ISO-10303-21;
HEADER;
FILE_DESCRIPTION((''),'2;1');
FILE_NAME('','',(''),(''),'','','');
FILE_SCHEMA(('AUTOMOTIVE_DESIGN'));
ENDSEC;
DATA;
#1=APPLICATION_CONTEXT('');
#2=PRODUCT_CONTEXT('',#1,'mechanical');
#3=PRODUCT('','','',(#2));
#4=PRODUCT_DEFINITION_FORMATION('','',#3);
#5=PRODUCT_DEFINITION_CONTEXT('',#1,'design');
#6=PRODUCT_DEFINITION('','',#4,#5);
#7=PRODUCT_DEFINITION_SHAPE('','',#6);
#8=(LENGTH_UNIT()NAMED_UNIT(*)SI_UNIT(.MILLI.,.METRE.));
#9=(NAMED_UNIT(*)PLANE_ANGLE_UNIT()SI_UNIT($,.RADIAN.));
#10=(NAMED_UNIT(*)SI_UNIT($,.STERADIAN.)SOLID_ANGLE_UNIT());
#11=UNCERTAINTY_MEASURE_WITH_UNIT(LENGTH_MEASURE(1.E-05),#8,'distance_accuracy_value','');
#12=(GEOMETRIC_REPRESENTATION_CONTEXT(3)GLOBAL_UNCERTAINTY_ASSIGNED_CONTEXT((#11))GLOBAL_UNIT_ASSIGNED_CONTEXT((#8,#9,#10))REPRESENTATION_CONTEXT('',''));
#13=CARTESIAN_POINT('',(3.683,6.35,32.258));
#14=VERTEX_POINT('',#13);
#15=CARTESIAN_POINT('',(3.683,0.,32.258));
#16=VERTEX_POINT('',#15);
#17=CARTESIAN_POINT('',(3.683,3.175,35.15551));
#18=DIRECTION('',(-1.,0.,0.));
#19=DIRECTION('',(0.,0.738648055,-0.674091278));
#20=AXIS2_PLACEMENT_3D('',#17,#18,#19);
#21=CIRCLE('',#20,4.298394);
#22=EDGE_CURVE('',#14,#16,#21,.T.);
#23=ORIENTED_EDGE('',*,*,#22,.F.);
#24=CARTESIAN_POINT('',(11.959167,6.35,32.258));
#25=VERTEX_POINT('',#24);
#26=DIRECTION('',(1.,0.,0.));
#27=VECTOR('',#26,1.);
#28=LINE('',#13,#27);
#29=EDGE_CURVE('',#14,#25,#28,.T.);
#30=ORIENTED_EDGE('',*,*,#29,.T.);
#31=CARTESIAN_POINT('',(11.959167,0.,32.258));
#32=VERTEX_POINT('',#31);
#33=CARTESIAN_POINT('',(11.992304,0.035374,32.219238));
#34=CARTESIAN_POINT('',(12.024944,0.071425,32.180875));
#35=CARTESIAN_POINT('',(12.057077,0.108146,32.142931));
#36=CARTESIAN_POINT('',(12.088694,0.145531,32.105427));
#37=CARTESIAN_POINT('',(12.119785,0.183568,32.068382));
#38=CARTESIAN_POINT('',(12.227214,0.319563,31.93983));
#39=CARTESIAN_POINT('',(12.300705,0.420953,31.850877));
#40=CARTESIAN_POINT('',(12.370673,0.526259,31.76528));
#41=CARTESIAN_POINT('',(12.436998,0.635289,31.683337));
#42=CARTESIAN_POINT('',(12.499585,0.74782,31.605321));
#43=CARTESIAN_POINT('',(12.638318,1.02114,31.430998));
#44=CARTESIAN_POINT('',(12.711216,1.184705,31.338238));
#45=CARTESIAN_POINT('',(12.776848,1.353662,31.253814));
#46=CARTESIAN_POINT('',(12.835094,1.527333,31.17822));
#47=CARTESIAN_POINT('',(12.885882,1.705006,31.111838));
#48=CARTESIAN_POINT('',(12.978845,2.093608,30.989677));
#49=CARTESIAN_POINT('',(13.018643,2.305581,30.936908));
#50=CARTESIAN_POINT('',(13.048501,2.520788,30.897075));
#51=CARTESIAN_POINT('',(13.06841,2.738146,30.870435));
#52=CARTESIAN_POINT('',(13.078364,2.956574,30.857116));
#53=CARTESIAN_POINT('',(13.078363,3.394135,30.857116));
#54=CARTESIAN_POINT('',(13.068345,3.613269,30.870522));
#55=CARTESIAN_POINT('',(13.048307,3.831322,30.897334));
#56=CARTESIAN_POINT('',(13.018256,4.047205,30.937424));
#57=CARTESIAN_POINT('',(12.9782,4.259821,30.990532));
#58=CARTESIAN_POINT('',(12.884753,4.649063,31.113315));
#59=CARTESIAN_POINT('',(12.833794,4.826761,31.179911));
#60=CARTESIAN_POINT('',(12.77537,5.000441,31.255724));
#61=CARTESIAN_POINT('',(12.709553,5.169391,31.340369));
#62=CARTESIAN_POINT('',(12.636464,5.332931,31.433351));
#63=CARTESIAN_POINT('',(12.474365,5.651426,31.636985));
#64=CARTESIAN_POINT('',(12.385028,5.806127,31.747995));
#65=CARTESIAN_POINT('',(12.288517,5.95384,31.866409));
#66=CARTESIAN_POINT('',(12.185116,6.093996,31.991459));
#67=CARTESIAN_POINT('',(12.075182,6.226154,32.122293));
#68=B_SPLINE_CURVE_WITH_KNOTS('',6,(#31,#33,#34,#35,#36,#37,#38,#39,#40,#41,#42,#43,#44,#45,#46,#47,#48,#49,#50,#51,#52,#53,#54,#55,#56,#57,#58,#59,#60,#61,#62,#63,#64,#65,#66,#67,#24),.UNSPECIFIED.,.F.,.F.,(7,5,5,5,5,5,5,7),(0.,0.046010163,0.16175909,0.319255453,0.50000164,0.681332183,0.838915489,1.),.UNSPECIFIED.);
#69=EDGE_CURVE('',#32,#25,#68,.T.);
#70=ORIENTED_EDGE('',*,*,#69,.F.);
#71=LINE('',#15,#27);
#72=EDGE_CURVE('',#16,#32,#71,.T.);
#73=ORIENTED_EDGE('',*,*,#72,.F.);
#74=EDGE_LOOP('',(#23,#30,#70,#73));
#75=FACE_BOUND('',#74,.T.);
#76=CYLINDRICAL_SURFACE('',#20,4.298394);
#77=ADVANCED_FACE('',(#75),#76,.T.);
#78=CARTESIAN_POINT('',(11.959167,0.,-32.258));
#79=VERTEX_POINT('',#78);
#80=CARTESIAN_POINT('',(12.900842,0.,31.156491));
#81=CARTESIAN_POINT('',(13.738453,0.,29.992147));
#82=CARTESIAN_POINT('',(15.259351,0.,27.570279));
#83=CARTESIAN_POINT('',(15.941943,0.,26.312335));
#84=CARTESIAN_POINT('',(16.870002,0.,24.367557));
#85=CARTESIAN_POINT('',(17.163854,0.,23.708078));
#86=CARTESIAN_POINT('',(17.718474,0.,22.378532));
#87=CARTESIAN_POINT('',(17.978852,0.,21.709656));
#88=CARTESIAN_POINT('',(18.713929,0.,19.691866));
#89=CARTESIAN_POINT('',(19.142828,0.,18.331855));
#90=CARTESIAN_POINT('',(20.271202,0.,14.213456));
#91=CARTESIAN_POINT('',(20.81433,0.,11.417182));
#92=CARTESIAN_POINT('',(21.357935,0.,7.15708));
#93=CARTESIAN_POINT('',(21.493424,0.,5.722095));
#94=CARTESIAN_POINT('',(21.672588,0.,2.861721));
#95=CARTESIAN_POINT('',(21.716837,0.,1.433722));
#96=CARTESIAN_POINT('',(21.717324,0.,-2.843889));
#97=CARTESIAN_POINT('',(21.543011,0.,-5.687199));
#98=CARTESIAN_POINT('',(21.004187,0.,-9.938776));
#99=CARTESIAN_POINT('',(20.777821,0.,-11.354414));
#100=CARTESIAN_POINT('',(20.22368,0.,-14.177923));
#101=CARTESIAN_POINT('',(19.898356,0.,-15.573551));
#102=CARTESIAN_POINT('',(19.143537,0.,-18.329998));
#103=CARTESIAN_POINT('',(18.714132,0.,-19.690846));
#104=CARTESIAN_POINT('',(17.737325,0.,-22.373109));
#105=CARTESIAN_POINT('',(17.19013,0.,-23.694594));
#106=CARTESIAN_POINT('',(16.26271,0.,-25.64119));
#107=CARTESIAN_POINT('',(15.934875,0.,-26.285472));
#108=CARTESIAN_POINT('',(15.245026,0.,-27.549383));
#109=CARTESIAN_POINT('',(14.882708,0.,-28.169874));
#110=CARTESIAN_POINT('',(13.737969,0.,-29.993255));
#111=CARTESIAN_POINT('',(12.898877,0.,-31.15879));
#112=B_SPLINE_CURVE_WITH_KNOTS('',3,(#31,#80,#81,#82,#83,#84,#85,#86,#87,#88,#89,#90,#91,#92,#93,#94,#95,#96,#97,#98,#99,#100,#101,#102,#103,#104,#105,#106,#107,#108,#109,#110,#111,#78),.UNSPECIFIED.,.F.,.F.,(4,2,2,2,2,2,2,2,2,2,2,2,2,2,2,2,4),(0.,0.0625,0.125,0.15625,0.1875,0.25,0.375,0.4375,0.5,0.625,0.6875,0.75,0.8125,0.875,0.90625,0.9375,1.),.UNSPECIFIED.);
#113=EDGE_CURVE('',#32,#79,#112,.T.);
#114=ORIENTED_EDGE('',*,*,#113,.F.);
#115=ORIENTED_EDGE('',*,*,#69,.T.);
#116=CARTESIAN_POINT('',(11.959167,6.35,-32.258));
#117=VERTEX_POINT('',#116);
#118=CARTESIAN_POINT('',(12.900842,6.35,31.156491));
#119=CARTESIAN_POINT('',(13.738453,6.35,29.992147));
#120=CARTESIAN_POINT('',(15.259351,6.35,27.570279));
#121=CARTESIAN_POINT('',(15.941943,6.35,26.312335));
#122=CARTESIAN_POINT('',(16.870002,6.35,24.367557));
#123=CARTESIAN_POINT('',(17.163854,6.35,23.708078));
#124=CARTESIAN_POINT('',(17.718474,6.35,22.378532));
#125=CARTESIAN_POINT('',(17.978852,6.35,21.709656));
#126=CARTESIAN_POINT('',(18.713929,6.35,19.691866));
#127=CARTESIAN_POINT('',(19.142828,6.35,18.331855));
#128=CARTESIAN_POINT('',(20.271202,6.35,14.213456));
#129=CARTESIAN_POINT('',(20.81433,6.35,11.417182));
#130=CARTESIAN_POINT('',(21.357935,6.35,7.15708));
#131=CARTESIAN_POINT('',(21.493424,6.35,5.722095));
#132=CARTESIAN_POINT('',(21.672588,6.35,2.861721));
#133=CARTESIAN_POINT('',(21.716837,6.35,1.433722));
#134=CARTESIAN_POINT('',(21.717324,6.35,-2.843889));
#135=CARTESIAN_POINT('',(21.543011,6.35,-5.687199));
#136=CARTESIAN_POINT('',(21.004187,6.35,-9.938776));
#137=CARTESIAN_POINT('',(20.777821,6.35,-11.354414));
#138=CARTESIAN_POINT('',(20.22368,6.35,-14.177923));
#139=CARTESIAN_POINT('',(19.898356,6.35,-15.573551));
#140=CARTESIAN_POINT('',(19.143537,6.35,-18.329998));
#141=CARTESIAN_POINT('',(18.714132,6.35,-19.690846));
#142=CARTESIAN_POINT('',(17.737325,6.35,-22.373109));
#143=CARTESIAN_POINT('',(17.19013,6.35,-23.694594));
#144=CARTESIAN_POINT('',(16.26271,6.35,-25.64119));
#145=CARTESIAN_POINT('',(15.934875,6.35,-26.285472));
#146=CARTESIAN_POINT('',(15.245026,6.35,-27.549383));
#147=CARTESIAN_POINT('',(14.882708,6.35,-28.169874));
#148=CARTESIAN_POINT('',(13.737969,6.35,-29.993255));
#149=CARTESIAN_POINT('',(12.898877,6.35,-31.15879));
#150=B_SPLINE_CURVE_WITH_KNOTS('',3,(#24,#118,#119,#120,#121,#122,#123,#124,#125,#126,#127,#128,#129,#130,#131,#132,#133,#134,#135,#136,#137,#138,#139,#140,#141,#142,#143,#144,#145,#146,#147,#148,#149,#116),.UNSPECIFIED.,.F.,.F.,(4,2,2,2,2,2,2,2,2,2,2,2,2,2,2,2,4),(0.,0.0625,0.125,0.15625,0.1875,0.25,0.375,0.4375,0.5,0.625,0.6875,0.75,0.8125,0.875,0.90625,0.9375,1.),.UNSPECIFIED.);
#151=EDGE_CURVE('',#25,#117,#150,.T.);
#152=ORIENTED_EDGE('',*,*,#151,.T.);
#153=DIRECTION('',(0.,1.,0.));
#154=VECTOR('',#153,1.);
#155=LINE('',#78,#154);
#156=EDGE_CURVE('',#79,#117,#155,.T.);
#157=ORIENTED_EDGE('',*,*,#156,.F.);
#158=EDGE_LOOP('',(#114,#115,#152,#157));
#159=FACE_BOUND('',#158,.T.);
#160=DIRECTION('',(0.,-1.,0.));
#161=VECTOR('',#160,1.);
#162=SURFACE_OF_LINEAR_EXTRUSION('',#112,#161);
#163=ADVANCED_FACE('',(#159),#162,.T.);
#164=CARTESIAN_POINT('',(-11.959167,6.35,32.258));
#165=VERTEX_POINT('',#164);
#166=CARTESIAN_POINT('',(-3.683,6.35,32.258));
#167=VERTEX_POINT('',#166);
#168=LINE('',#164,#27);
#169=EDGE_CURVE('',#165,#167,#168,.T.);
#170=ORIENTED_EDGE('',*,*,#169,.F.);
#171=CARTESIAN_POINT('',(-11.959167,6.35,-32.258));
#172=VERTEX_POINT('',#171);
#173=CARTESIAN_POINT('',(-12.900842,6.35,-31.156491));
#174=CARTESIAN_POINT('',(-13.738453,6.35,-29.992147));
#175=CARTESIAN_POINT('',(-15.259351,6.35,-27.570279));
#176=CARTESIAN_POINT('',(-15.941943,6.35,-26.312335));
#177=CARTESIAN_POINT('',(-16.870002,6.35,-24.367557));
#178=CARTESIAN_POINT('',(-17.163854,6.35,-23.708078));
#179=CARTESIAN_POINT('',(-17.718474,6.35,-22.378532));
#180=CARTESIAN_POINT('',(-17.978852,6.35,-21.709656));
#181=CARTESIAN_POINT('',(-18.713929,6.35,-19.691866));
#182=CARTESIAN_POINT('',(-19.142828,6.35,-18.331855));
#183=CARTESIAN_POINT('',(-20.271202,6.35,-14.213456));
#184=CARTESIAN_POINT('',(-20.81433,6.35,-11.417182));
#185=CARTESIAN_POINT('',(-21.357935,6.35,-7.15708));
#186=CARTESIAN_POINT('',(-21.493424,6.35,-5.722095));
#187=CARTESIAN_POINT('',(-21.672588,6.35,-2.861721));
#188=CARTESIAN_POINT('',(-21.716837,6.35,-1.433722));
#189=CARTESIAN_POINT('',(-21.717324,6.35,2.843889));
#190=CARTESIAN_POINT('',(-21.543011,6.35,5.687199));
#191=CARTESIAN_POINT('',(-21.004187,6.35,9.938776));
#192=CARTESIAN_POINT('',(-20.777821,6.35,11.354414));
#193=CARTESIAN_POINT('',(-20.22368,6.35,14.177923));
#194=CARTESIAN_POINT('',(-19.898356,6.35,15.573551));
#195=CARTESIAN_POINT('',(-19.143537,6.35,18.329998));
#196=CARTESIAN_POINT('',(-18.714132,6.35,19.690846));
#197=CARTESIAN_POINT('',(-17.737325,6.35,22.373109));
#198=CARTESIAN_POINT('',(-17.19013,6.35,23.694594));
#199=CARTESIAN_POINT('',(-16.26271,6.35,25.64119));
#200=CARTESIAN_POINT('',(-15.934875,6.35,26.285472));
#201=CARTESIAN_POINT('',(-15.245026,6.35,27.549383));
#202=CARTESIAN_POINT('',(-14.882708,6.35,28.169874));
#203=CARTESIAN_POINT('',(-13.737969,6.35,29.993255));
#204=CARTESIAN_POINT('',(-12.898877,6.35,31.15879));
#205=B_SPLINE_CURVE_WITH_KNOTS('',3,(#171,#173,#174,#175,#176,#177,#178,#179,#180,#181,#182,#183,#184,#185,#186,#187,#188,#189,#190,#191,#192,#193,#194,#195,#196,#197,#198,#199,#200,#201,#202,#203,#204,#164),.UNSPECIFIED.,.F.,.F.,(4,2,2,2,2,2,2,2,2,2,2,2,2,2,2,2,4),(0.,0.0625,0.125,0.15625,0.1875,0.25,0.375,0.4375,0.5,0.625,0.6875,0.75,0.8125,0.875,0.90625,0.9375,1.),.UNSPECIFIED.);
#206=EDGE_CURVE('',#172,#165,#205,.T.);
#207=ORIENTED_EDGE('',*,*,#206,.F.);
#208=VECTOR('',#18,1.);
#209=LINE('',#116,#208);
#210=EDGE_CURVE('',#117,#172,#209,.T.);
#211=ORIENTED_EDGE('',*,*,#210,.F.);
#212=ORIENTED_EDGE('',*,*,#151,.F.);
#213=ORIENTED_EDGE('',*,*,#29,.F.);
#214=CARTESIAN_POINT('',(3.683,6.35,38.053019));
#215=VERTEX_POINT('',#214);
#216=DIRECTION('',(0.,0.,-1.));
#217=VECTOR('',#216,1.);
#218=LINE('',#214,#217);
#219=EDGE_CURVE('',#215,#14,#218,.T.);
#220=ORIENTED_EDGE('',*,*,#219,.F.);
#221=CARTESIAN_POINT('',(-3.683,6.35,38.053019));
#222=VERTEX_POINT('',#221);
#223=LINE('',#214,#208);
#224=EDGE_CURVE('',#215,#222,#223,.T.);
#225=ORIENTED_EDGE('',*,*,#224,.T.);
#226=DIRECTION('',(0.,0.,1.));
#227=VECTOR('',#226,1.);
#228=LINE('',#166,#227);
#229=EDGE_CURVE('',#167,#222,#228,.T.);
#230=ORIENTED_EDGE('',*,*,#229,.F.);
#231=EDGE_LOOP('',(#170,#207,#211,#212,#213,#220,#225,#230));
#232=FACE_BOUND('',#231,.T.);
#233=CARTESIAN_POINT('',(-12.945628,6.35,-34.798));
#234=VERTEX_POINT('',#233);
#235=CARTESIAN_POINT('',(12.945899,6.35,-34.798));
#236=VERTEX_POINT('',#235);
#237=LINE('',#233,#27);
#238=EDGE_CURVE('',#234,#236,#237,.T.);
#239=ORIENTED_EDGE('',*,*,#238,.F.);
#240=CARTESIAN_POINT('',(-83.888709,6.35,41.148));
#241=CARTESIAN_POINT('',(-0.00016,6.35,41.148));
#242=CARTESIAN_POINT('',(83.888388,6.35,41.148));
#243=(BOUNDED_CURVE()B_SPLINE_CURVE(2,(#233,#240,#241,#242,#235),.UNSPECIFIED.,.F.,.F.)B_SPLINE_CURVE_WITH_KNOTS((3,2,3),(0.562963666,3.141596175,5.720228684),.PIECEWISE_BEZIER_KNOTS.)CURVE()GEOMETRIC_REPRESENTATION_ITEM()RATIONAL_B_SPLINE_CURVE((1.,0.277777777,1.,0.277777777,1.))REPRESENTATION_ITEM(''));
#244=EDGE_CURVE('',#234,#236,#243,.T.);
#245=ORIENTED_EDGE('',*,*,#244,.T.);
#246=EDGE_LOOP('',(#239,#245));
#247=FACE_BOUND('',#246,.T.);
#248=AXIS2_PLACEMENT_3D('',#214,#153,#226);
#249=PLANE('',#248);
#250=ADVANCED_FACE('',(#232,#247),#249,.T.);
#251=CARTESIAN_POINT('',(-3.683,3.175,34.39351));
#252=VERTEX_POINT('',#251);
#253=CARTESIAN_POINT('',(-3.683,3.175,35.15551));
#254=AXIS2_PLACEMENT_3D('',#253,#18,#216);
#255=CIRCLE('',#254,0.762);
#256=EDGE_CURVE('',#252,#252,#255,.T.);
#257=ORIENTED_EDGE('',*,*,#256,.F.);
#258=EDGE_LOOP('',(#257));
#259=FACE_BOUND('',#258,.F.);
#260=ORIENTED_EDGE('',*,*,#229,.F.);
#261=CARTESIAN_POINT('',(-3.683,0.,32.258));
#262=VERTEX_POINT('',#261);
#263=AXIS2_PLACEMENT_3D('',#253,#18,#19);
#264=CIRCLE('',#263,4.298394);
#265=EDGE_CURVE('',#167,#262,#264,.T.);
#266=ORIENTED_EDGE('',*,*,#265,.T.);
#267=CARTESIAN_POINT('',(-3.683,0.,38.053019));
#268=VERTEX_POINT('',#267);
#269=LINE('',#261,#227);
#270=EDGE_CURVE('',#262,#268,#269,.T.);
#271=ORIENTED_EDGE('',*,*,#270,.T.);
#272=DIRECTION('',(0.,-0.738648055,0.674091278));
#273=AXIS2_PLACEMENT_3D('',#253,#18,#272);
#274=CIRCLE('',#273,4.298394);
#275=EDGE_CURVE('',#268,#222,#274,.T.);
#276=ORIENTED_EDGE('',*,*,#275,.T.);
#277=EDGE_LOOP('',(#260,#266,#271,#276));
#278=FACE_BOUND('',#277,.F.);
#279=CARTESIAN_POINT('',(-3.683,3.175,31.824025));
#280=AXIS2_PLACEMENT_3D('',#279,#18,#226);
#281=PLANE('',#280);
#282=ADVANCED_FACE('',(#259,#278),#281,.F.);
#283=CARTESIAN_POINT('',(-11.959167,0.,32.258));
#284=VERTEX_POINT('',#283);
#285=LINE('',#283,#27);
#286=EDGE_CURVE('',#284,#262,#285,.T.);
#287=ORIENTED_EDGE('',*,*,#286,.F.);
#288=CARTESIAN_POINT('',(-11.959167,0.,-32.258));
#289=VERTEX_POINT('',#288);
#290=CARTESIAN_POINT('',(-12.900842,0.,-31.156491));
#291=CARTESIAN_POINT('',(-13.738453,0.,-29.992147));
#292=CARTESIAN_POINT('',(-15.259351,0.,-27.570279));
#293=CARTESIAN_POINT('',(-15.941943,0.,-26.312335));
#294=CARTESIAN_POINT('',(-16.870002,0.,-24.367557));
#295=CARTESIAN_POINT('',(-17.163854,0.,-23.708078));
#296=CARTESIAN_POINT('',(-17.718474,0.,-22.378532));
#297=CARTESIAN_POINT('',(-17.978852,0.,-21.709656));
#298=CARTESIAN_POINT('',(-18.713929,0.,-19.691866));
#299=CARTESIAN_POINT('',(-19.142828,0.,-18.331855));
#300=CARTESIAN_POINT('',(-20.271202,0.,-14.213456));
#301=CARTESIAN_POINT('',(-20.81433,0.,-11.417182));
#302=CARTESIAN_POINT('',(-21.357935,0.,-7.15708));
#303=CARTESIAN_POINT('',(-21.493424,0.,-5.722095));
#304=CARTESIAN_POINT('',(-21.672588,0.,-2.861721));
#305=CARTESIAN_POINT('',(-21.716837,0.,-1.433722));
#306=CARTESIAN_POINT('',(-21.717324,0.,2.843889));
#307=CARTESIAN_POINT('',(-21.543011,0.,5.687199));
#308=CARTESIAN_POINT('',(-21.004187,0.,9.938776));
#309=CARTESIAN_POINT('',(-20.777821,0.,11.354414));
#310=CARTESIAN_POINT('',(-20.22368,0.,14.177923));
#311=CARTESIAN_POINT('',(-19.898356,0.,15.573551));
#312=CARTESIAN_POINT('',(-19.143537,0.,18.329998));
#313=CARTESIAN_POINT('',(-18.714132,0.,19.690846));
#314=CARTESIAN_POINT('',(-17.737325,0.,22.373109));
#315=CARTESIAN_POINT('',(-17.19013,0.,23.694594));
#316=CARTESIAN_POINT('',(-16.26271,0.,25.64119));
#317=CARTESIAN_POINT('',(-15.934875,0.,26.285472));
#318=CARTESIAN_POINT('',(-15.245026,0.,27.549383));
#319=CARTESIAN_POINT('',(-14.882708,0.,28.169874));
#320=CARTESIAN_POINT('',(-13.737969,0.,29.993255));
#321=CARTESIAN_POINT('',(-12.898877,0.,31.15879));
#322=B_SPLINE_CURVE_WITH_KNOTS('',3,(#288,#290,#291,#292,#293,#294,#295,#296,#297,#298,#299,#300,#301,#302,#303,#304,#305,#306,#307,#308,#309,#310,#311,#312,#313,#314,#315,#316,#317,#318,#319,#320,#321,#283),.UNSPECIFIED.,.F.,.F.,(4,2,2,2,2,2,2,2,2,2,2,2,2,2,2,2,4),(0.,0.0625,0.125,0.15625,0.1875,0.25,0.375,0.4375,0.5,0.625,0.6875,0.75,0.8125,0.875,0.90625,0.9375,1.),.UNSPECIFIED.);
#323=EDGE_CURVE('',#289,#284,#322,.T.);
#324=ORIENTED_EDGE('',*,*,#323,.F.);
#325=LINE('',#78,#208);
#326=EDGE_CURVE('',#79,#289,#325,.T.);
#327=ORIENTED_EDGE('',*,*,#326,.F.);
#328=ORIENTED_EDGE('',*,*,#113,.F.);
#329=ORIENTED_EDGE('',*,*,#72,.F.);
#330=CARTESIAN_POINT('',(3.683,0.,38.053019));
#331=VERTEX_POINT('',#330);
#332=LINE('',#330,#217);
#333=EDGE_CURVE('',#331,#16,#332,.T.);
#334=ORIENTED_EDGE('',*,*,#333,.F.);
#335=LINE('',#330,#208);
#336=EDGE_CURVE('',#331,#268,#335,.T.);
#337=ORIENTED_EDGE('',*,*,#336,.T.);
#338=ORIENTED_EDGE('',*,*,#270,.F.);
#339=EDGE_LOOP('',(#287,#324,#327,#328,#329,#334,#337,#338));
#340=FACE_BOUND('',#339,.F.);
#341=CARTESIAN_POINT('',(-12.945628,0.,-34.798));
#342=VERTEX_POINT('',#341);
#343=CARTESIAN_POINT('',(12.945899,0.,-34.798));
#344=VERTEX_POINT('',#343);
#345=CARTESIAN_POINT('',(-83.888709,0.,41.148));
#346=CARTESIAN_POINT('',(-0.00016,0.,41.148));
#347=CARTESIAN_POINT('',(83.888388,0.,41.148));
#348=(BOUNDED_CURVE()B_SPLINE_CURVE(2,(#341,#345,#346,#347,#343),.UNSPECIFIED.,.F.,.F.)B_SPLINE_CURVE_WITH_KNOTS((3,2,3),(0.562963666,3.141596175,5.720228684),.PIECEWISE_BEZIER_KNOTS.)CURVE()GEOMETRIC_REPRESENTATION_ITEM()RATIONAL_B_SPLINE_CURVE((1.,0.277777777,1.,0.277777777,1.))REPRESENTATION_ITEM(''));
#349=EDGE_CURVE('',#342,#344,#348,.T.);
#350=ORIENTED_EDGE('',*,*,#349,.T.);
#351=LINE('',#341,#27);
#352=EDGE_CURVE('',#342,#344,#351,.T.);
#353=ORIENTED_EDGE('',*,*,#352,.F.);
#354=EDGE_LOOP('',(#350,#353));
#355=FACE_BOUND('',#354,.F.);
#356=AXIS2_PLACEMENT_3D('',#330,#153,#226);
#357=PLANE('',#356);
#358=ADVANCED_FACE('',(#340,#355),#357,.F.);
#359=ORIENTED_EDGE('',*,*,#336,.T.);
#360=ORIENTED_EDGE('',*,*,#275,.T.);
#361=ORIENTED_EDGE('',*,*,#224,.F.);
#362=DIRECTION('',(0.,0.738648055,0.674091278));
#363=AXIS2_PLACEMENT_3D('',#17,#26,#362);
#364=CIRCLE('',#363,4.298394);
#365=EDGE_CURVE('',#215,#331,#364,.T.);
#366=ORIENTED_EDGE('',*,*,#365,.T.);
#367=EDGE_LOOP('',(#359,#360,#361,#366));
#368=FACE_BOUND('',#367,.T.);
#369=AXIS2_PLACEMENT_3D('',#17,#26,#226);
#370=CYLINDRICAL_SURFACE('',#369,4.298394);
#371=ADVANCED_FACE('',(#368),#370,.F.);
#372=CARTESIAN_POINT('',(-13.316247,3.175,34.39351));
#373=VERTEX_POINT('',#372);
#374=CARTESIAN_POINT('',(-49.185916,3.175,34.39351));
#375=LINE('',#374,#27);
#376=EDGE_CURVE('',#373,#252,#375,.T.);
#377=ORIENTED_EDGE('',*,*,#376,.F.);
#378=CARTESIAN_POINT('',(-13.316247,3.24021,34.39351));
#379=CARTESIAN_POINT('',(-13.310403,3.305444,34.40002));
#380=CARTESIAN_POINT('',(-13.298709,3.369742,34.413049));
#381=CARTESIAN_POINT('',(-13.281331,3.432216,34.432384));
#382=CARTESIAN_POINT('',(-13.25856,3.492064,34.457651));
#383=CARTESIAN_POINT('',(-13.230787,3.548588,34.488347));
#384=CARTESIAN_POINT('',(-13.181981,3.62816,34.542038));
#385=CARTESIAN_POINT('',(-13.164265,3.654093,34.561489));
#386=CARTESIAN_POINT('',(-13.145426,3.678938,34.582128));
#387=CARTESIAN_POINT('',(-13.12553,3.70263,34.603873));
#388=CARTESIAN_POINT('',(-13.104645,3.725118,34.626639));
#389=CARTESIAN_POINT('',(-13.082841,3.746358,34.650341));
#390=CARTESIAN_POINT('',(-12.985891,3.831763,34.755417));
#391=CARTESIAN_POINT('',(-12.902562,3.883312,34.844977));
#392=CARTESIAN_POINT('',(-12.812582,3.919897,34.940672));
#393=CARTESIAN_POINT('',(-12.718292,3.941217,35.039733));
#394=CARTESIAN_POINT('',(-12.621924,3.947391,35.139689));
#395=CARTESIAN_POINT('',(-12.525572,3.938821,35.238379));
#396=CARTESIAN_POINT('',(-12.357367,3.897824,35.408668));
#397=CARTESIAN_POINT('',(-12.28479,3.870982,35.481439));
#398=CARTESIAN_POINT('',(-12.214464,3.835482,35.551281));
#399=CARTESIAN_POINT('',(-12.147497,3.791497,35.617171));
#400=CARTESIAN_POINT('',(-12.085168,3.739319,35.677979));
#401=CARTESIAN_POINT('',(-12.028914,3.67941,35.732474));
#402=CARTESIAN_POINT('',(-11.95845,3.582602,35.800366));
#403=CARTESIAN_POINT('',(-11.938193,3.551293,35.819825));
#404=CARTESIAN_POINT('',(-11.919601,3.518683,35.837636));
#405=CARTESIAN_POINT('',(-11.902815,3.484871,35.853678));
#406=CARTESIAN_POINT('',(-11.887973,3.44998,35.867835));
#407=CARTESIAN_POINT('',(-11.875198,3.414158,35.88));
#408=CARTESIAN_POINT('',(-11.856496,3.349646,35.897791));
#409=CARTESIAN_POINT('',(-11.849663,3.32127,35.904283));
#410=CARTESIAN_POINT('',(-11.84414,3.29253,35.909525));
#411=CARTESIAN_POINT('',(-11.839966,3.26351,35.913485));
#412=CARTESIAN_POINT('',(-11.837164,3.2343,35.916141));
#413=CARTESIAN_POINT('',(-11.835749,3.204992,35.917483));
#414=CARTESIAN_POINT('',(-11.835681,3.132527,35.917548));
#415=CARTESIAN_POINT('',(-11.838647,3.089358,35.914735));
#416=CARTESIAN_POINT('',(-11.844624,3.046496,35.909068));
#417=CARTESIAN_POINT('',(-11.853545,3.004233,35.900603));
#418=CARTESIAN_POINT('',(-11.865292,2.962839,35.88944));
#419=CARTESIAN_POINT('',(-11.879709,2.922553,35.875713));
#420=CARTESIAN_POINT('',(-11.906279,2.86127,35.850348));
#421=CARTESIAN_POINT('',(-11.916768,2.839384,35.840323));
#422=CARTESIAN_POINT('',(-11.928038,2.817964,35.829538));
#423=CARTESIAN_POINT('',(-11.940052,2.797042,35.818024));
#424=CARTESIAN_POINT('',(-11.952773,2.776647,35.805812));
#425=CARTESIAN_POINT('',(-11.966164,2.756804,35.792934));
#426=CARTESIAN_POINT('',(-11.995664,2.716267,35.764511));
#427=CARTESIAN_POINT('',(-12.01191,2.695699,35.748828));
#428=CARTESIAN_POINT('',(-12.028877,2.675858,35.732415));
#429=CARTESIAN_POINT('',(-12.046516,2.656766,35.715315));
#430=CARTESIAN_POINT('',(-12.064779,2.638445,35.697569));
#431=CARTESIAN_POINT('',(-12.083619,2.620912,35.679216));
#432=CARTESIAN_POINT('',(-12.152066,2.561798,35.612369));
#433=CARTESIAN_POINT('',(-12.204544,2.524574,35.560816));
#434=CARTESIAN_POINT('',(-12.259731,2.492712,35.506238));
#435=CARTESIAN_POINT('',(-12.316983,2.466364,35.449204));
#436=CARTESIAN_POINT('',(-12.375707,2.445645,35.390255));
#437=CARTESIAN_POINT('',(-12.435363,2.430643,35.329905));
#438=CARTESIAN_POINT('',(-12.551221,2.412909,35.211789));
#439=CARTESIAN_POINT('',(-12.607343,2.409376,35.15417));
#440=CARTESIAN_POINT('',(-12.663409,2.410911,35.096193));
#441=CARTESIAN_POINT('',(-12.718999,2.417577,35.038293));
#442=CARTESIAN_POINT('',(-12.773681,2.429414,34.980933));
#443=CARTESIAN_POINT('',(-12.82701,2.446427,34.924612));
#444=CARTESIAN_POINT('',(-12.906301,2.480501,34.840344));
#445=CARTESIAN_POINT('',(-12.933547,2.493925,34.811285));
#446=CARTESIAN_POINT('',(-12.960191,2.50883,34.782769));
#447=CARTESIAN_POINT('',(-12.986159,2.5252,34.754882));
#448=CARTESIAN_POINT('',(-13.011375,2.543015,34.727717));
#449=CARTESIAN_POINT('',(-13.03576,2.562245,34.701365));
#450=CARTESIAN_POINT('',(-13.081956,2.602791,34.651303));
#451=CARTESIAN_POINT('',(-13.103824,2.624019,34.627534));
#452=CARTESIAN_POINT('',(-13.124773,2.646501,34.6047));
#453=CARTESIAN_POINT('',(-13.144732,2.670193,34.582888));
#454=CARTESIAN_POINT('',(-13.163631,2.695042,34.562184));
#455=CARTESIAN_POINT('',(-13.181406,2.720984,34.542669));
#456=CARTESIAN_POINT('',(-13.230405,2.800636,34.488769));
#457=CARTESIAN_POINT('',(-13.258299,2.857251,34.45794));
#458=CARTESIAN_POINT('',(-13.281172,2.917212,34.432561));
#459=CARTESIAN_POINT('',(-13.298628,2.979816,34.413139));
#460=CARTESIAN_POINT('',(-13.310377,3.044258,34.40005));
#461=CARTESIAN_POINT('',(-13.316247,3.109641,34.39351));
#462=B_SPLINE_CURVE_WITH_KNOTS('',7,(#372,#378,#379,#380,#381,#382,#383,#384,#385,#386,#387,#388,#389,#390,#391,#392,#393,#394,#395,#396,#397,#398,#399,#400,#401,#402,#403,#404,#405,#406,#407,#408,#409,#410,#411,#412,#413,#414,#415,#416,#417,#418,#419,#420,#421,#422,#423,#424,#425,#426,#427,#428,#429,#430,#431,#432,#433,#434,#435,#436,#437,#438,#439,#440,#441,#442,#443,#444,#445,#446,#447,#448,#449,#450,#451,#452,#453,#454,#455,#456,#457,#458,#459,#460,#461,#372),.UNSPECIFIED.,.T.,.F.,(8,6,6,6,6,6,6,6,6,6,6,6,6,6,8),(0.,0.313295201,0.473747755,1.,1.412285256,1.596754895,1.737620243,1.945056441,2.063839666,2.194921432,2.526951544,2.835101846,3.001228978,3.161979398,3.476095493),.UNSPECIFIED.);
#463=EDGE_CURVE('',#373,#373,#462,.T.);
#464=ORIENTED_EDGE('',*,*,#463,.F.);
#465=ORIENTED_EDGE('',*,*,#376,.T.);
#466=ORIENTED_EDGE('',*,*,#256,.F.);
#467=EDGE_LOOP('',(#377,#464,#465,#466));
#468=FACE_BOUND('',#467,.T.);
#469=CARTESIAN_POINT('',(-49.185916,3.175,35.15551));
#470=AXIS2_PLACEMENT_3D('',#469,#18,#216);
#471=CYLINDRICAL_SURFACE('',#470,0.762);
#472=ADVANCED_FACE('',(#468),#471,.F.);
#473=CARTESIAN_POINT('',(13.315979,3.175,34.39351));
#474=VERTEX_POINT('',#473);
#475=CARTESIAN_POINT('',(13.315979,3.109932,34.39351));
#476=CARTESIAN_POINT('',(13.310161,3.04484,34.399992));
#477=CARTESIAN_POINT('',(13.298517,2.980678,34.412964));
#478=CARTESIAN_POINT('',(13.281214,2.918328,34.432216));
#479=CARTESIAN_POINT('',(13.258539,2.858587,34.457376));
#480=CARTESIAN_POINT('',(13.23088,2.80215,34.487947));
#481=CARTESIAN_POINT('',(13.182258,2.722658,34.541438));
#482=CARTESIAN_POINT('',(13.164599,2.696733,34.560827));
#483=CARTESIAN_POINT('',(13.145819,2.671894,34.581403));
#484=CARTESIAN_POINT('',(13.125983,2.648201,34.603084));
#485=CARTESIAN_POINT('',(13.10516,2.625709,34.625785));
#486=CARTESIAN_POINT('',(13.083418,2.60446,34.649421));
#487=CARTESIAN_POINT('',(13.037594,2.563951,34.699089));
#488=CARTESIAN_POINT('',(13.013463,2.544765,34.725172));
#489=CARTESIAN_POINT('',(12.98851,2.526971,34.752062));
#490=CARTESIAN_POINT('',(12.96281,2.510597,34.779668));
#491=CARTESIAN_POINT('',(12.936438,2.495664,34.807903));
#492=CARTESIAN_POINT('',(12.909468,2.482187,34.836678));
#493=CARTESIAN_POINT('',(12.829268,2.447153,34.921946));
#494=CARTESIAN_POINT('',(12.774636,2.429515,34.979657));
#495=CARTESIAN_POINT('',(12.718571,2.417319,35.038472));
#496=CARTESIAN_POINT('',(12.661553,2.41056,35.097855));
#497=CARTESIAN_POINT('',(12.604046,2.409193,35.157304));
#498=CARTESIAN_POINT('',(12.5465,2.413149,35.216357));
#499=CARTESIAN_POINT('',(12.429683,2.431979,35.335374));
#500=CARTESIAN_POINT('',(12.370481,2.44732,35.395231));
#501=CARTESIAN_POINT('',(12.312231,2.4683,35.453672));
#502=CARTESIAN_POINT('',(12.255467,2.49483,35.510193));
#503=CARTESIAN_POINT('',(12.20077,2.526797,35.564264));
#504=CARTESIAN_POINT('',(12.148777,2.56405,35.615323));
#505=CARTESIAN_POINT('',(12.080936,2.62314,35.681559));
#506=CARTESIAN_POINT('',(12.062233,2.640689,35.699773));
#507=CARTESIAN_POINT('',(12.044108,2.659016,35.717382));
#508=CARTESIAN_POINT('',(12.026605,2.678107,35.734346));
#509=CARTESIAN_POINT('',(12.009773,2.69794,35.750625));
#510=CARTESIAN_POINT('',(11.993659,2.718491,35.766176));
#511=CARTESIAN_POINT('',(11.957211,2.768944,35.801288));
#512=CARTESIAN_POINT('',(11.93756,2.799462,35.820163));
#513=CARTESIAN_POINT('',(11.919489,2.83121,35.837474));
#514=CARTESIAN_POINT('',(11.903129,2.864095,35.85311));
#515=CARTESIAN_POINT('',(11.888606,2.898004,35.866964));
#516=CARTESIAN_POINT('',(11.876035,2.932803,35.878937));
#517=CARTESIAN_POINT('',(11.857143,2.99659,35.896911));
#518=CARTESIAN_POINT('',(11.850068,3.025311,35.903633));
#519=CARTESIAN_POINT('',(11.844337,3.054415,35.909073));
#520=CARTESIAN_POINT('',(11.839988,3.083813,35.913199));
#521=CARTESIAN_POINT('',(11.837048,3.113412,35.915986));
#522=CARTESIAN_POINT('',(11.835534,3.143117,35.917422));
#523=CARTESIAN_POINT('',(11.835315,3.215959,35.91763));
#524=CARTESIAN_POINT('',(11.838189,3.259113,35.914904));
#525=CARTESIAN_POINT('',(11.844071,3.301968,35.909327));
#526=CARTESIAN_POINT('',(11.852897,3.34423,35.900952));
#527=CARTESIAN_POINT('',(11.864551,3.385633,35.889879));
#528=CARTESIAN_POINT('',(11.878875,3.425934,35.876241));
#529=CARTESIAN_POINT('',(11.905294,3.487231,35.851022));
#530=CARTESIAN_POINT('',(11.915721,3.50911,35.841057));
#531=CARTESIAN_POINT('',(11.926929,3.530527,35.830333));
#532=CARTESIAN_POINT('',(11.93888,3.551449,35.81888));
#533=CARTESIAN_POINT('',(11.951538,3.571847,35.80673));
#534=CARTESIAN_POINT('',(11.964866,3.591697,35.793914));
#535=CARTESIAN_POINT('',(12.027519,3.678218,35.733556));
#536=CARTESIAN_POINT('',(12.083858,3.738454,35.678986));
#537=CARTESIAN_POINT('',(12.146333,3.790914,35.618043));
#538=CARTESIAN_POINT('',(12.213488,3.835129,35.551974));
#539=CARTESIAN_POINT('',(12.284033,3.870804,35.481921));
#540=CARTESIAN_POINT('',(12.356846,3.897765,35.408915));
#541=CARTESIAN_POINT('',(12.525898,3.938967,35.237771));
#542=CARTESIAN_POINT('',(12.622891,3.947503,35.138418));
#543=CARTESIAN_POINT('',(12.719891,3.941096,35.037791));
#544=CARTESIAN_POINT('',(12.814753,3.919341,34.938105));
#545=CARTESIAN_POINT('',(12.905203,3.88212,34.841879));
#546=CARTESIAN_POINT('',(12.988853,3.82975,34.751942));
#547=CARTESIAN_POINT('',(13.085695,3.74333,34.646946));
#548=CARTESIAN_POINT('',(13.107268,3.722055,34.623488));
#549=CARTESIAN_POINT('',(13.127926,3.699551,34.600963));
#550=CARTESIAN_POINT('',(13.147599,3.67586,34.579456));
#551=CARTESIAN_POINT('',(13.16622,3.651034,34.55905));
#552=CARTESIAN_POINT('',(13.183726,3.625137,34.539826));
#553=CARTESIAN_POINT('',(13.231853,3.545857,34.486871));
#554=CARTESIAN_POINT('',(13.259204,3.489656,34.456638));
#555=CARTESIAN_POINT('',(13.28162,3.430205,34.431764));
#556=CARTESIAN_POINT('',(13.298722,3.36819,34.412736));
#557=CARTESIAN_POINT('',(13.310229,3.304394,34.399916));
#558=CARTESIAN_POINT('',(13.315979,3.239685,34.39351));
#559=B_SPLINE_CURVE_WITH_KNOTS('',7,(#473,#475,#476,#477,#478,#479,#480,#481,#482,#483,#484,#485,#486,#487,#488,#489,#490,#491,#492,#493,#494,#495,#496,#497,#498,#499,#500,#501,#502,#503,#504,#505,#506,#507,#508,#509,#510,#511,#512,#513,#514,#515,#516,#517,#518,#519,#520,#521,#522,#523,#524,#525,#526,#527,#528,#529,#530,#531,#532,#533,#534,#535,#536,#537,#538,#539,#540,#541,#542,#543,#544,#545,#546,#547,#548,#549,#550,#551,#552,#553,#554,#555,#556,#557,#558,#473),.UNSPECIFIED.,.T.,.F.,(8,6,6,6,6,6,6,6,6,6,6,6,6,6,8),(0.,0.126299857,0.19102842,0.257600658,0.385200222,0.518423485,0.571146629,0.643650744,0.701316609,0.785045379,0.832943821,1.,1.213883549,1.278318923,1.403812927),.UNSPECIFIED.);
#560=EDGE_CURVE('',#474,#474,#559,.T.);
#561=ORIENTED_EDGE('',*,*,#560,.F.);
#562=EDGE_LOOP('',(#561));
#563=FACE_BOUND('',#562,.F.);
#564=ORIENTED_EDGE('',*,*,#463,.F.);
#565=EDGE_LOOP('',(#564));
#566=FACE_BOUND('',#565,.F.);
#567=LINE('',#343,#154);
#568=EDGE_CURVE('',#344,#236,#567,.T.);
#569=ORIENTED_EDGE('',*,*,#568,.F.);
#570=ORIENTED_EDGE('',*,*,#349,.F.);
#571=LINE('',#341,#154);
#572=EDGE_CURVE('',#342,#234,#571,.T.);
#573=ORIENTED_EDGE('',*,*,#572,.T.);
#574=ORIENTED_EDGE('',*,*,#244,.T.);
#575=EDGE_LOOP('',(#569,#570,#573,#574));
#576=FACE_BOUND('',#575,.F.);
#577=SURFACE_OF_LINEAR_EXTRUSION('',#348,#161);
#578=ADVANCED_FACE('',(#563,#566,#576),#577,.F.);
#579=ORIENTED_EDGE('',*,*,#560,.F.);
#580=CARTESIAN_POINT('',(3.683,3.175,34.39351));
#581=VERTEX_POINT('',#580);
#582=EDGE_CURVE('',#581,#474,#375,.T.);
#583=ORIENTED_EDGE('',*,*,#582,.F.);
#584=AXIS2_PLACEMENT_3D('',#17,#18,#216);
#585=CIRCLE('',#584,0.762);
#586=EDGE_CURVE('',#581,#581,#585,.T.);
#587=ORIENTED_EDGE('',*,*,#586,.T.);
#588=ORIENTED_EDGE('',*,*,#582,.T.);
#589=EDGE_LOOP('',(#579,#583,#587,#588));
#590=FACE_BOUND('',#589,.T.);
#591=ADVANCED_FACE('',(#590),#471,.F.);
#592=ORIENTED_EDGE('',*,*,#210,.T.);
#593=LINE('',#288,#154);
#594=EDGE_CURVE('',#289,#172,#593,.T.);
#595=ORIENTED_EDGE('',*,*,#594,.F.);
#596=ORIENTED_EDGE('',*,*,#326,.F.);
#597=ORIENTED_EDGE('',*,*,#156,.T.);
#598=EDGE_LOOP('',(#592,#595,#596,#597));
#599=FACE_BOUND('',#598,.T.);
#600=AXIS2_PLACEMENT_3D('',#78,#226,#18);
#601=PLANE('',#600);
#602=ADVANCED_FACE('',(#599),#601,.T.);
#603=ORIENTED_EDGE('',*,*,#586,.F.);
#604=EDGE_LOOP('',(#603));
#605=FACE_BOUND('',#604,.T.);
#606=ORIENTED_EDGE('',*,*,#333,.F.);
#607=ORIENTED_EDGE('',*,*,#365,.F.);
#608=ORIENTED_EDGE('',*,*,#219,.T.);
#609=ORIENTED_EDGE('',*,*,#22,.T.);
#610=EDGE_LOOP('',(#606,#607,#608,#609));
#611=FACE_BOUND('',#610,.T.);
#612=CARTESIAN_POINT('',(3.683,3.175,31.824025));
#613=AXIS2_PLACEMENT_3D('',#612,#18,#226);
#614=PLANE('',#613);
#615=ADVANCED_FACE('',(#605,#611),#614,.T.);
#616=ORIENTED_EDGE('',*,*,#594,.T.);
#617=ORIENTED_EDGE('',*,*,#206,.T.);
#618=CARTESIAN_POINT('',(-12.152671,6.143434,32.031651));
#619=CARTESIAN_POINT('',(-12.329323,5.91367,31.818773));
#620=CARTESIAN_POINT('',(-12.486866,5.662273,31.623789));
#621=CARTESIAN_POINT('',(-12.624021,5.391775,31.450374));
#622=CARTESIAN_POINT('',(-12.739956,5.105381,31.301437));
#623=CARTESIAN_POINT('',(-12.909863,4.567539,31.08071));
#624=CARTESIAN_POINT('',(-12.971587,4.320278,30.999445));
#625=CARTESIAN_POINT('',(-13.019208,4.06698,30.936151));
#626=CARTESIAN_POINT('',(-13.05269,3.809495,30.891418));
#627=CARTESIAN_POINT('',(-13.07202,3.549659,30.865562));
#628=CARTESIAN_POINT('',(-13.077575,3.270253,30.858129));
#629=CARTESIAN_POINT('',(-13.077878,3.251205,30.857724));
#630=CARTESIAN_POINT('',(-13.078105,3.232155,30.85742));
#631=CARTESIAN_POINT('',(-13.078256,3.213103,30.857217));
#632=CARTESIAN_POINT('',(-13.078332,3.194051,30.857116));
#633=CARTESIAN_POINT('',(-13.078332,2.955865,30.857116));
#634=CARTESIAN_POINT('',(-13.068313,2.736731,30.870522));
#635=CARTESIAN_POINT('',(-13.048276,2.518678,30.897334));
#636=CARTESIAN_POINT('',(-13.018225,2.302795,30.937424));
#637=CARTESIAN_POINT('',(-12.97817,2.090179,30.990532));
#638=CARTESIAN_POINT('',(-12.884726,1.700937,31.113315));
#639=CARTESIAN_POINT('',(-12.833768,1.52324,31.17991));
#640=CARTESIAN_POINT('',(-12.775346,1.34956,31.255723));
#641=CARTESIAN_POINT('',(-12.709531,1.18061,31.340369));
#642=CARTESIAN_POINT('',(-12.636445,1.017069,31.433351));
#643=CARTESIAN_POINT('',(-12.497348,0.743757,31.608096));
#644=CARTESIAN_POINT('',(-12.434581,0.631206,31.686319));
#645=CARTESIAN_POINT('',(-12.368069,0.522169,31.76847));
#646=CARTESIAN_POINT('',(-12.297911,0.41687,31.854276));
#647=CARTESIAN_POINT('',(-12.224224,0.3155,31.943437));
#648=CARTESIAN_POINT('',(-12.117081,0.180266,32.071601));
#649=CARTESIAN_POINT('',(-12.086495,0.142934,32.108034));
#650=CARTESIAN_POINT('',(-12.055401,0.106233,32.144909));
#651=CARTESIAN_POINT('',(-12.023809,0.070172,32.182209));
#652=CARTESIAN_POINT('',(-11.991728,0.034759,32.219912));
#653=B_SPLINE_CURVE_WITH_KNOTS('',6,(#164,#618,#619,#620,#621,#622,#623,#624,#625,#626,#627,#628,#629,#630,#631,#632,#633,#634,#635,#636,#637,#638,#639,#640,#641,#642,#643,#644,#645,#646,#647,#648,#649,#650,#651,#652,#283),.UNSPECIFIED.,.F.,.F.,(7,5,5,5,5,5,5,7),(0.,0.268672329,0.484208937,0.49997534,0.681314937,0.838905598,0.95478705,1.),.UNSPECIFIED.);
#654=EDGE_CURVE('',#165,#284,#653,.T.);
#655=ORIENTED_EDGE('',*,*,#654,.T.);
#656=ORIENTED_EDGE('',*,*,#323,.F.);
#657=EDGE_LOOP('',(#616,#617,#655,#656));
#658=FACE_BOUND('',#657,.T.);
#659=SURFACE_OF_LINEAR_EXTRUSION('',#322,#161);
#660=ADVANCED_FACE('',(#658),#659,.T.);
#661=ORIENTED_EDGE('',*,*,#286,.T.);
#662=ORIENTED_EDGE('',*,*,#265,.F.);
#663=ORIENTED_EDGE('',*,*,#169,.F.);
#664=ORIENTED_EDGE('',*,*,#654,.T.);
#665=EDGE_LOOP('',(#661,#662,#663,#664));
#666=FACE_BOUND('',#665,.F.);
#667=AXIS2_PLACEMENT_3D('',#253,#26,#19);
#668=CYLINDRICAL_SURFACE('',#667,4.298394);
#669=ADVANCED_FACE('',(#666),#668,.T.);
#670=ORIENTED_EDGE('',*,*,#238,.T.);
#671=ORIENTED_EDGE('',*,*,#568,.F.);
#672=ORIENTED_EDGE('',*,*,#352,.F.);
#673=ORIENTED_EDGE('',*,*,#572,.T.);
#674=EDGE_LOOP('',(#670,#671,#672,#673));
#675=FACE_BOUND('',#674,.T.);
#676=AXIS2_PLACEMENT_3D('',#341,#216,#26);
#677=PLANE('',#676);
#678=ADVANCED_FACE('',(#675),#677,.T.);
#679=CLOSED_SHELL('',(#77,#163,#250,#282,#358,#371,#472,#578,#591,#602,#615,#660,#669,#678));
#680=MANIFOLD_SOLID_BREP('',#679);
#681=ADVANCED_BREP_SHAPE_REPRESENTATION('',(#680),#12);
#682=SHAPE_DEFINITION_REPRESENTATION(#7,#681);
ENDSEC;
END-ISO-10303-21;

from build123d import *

# Parameters (mm, degrees)
BOSS_EXTRUDE2_DEPTH      = 6.35
CUT_EXTRUDE18_DEPTH      = 49.185915618
CUT_EXTRUDE18_DEPTH_BACK = 49.185915618
SKETCH37_R               = 0.762
BOSS_EXTRUDE3_REACH      = 52.141
BOSS_EXTRUDE4_REACH      = 52.141
SKETCH42_W               = 1.696048547
SKETCH42_H               = 6.35
BOSS_EXTRUDE5_DEPTH      = 7.366
SKETCH43_R               = 4.298393504
CUT_EXTRUDE19_DEPTH      = 7.366


with BuildPart() as part:
    # Sketch36 → Boss-Extrude2 (new body)
    with BuildSketch(Plane(origin=(0, 0, 0), x_dir=(1, 0, 0), z_dir=(0, 1, 0))):
        with BuildLine():
            Line((-12.945627945, 34.798), (12.945899189, 34.798))
            add(Edge.make_bspline(
                [(-12.945627945, 34.798), (-83.888708787, -41.147999955), (-0.000160371, -41.147999955), (83.888388045, -41.147999955), (12.945899189, 34.798)],
                knots=[0.562963666, 0.562963666, 0.562963666, 3.141596175, 3.141596175, 5.720228684, 5.720228684, 5.720228684], degree=2, weights=[1, 0.277777777, 1, 0.277777777, 1]))
        make_face()
        with BuildLine():
            Line((-3.683, -32.258), (-3.683, -38.053019143))
            add(Edge.make_bspline(
                [(-3.683, -38.053019143), (-2.482090688, -38.417731108), (-1.258384389, -38.606958819), (0.301808084, -38.608254983), (0.616446755, -38.596527307), (1.240326077, -38.549447356), (1.550254263, -38.514179279), (2.474180823, -38.37421942), (3.082332805, -38.235439673), (3.683, -38.053019143)],
                knots=[0, 0, 0, 0, 0.5, 0.5, 0.625, 0.625, 0.75, 0.75, 1, 1, 1, 1], degree=3))
            Line((3.683, -38.053019143), (3.683, -32.258))
            Line((3.683, -32.258), (11.959166509, -32.258))
            add(Edge.make_bspline(
                [(11.959166509, -32.258), (12.900842466, -31.156491085), (13.738452503, -29.992146986), (15.259350973, -27.570279131), (15.94194291, -26.312334831), (16.870001904, -24.367556715), (17.163854304, -23.708077916), (17.718474432, -22.378531672), (17.978852397, -21.709655523), (18.713928581, -19.69186626), (19.142827541, -18.33185496), (20.271201588, -14.213455885), (20.814329883, -11.41718178), (21.357935276, -7.157080152), (21.493423806, -5.722094882), (21.672587527, -2.861720676), (21.716837187, -1.433721974), (21.717324285, 2.843889226), (21.543010859, 5.687199416), (21.004187459, 9.938775543), (20.777820937, 11.354414051), (20.223680311, 14.177922557), (19.898355991, 15.573551478), (19.143536874, 18.329998044), (18.71413188, 19.6908457), (17.737325451, 22.37310943), (17.190129963, 23.694594327), (16.262710189, 25.641189638), (15.934875145, 26.285471682), (15.245025968, 27.549383152), (14.882707738, 28.169873501), (13.737968871, 29.993254889), (12.898877146, 31.158789984), (11.959166509, 32.258)],
                knots=[0, 0, 0, 0, 0.0625, 0.0625, 0.125, 0.125, 0.15625, 0.15625, 0.1875, 0.1875, 0.25, 0.25, 0.375, 0.375, 0.4375, 0.4375, 0.5, 0.5, 0.625, 0.625, 0.6875, 0.6875, 0.75, 0.75, 0.8125, 0.8125, 0.875, 0.875, 0.90625, 0.90625, 0.9375, 0.9375, 1, 1, 1, 1], degree=3))
            Line((11.959166509, 32.258), (-11.959166509, 32.258))
            add(Edge.make_bspline(
                [(-11.959166509, 32.258), (-12.900842466, 31.156491085), (-13.738452503, 29.992146986), (-15.259350973, 27.570279131), (-15.94194291, 26.312334831), (-16.870001904, 24.367556715), (-17.163854304, 23.708077916), (-17.718474432, 22.378531672), (-17.978852397, 21.709655523), (-18.713928581, 19.69186626), (-19.142827541, 18.33185496), (-20.271201588, 14.213455885), (-20.814329883, 11.41718178), (-21.357935276, 7.157080152), (-21.493423806, 5.722094882), (-21.672587527, 2.861720676), (-21.716837187, 1.433721974), (-21.717324285, -2.843889226), (-21.543010859, -5.687199416), (-21.004187459, -9.938775543), (-20.777820937, -11.354414051), (-20.223680311, -14.177922557), (-19.898355991, -15.573551478), (-19.143536874, -18.329998044), (-18.71413188, -19.6908457), (-17.737325451, -22.37310943), (-17.190129963, -23.694594327), (-16.262710189, -25.641189638), (-15.934875145, -26.285471682), (-15.245025968, -27.549383152), (-14.882707738, -28.169873501), (-13.737968871, -29.993254889), (-12.898877146, -31.158789984), (-11.959166509, -32.258)],
                knots=[0, 0, 0, 0, 0.0625, 0.0625, 0.125, 0.125, 0.15625, 0.15625, 0.1875, 0.1875, 0.25, 0.25, 0.375, 0.375, 0.4375, 0.4375, 0.5, 0.5, 0.625, 0.625, 0.6875, 0.6875, 0.75, 0.75, 0.8125, 0.8125, 0.875, 0.875, 0.90625, 0.90625, 0.9375, 0.9375, 1, 1, 1, 1], degree=3))
            Line((-11.959166509, -32.258), (-3.683, -32.258))
        make_face(mode=Mode.SUBTRACT)
    extrude(amount=BOSS_EXTRUDE2_DEPTH)

    # Sketch37 → Cut-Extrude18 (cut, two sides: drawn at the far end of the back side and taken through both)
    with BuildSketch(Plane(origin=(0, 0, 0), x_dir=(0, 0, -1), z_dir=(1, 0, 0)).offset(-CUT_EXTRUDE18_DEPTH_BACK)):
        with Locations((-35.155509572, 3.175)):
            Circle(SKETCH37_R)
    extrude(amount=CUT_EXTRUDE18_DEPTH + CUT_EXTRUDE18_DEPTH_BACK, mode=Mode.SUBTRACT)

    # Sketch40 → Boss-Extrude3 (add, up to next)
    with BuildSketch(Plane.ZY.offset(-3.683), mode=Mode.PRIVATE) as boss_extrude3_sk1:
        with BuildLine():
            Line((32.258, 0), (32.258, 6.35))
            ThreePointArc((32.258, 6.35), (30.857116067, 3.175), (32.258, 0))
        make_face()
    boss_extrude3_tool1 = extrude(boss_extrude3_sk1.sketch, amount=-BOSS_EXTRUDE3_REACH, mode=Mode.PRIVATE) - part.part
    add(boss_extrude3_tool1.solids().sort_by_distance((3.683, 3.175, 31.688999))[0])

    # Sketch41 → Boss-Extrude4 (add, up to next)
    with BuildSketch(Plane(origin=(-3.683, 0, 0), x_dir=(0, 0, -1), z_dir=(1, 0, 0)), mode=Mode.PRIVATE) as boss_extrude4_sk1:
        with BuildLine():
            Line((-32.258, 0), (-32.258, 6.35))
            ThreePointArc((-32.258, 6.35), (-30.857116067, 3.175), (-32.258, 0))
        make_face()
    boss_extrude4_tool1 = extrude(boss_extrude4_sk1.sketch, amount=-BOSS_EXTRUDE4_REACH, mode=Mode.PRIVATE) - part.part
    add(boss_extrude4_tool1.solids().sort_by_distance((-3.683, 3.175, 31.688999))[0])

    # Sketch42 → Boss-Extrude5 (add)
    with BuildSketch(Plane.ZY.offset(-3.683)):
        with Locations((38.901043417, 3.175)):
            Rectangle(SKETCH42_W, SKETCH42_H)
    extrude(amount=BOSS_EXTRUDE5_DEPTH)

    # Sketch43 → Cut-Extrude19 (cut)
    with BuildSketch(Plane.ZY.offset(-3.683)):
        with Locations((35.155509572, 3.175)):
            Circle(SKETCH43_R)
    extrude(amount=CUT_EXTRUDE19_DEPTH, mode=Mode.SUBTRACT)


solid = part.part
